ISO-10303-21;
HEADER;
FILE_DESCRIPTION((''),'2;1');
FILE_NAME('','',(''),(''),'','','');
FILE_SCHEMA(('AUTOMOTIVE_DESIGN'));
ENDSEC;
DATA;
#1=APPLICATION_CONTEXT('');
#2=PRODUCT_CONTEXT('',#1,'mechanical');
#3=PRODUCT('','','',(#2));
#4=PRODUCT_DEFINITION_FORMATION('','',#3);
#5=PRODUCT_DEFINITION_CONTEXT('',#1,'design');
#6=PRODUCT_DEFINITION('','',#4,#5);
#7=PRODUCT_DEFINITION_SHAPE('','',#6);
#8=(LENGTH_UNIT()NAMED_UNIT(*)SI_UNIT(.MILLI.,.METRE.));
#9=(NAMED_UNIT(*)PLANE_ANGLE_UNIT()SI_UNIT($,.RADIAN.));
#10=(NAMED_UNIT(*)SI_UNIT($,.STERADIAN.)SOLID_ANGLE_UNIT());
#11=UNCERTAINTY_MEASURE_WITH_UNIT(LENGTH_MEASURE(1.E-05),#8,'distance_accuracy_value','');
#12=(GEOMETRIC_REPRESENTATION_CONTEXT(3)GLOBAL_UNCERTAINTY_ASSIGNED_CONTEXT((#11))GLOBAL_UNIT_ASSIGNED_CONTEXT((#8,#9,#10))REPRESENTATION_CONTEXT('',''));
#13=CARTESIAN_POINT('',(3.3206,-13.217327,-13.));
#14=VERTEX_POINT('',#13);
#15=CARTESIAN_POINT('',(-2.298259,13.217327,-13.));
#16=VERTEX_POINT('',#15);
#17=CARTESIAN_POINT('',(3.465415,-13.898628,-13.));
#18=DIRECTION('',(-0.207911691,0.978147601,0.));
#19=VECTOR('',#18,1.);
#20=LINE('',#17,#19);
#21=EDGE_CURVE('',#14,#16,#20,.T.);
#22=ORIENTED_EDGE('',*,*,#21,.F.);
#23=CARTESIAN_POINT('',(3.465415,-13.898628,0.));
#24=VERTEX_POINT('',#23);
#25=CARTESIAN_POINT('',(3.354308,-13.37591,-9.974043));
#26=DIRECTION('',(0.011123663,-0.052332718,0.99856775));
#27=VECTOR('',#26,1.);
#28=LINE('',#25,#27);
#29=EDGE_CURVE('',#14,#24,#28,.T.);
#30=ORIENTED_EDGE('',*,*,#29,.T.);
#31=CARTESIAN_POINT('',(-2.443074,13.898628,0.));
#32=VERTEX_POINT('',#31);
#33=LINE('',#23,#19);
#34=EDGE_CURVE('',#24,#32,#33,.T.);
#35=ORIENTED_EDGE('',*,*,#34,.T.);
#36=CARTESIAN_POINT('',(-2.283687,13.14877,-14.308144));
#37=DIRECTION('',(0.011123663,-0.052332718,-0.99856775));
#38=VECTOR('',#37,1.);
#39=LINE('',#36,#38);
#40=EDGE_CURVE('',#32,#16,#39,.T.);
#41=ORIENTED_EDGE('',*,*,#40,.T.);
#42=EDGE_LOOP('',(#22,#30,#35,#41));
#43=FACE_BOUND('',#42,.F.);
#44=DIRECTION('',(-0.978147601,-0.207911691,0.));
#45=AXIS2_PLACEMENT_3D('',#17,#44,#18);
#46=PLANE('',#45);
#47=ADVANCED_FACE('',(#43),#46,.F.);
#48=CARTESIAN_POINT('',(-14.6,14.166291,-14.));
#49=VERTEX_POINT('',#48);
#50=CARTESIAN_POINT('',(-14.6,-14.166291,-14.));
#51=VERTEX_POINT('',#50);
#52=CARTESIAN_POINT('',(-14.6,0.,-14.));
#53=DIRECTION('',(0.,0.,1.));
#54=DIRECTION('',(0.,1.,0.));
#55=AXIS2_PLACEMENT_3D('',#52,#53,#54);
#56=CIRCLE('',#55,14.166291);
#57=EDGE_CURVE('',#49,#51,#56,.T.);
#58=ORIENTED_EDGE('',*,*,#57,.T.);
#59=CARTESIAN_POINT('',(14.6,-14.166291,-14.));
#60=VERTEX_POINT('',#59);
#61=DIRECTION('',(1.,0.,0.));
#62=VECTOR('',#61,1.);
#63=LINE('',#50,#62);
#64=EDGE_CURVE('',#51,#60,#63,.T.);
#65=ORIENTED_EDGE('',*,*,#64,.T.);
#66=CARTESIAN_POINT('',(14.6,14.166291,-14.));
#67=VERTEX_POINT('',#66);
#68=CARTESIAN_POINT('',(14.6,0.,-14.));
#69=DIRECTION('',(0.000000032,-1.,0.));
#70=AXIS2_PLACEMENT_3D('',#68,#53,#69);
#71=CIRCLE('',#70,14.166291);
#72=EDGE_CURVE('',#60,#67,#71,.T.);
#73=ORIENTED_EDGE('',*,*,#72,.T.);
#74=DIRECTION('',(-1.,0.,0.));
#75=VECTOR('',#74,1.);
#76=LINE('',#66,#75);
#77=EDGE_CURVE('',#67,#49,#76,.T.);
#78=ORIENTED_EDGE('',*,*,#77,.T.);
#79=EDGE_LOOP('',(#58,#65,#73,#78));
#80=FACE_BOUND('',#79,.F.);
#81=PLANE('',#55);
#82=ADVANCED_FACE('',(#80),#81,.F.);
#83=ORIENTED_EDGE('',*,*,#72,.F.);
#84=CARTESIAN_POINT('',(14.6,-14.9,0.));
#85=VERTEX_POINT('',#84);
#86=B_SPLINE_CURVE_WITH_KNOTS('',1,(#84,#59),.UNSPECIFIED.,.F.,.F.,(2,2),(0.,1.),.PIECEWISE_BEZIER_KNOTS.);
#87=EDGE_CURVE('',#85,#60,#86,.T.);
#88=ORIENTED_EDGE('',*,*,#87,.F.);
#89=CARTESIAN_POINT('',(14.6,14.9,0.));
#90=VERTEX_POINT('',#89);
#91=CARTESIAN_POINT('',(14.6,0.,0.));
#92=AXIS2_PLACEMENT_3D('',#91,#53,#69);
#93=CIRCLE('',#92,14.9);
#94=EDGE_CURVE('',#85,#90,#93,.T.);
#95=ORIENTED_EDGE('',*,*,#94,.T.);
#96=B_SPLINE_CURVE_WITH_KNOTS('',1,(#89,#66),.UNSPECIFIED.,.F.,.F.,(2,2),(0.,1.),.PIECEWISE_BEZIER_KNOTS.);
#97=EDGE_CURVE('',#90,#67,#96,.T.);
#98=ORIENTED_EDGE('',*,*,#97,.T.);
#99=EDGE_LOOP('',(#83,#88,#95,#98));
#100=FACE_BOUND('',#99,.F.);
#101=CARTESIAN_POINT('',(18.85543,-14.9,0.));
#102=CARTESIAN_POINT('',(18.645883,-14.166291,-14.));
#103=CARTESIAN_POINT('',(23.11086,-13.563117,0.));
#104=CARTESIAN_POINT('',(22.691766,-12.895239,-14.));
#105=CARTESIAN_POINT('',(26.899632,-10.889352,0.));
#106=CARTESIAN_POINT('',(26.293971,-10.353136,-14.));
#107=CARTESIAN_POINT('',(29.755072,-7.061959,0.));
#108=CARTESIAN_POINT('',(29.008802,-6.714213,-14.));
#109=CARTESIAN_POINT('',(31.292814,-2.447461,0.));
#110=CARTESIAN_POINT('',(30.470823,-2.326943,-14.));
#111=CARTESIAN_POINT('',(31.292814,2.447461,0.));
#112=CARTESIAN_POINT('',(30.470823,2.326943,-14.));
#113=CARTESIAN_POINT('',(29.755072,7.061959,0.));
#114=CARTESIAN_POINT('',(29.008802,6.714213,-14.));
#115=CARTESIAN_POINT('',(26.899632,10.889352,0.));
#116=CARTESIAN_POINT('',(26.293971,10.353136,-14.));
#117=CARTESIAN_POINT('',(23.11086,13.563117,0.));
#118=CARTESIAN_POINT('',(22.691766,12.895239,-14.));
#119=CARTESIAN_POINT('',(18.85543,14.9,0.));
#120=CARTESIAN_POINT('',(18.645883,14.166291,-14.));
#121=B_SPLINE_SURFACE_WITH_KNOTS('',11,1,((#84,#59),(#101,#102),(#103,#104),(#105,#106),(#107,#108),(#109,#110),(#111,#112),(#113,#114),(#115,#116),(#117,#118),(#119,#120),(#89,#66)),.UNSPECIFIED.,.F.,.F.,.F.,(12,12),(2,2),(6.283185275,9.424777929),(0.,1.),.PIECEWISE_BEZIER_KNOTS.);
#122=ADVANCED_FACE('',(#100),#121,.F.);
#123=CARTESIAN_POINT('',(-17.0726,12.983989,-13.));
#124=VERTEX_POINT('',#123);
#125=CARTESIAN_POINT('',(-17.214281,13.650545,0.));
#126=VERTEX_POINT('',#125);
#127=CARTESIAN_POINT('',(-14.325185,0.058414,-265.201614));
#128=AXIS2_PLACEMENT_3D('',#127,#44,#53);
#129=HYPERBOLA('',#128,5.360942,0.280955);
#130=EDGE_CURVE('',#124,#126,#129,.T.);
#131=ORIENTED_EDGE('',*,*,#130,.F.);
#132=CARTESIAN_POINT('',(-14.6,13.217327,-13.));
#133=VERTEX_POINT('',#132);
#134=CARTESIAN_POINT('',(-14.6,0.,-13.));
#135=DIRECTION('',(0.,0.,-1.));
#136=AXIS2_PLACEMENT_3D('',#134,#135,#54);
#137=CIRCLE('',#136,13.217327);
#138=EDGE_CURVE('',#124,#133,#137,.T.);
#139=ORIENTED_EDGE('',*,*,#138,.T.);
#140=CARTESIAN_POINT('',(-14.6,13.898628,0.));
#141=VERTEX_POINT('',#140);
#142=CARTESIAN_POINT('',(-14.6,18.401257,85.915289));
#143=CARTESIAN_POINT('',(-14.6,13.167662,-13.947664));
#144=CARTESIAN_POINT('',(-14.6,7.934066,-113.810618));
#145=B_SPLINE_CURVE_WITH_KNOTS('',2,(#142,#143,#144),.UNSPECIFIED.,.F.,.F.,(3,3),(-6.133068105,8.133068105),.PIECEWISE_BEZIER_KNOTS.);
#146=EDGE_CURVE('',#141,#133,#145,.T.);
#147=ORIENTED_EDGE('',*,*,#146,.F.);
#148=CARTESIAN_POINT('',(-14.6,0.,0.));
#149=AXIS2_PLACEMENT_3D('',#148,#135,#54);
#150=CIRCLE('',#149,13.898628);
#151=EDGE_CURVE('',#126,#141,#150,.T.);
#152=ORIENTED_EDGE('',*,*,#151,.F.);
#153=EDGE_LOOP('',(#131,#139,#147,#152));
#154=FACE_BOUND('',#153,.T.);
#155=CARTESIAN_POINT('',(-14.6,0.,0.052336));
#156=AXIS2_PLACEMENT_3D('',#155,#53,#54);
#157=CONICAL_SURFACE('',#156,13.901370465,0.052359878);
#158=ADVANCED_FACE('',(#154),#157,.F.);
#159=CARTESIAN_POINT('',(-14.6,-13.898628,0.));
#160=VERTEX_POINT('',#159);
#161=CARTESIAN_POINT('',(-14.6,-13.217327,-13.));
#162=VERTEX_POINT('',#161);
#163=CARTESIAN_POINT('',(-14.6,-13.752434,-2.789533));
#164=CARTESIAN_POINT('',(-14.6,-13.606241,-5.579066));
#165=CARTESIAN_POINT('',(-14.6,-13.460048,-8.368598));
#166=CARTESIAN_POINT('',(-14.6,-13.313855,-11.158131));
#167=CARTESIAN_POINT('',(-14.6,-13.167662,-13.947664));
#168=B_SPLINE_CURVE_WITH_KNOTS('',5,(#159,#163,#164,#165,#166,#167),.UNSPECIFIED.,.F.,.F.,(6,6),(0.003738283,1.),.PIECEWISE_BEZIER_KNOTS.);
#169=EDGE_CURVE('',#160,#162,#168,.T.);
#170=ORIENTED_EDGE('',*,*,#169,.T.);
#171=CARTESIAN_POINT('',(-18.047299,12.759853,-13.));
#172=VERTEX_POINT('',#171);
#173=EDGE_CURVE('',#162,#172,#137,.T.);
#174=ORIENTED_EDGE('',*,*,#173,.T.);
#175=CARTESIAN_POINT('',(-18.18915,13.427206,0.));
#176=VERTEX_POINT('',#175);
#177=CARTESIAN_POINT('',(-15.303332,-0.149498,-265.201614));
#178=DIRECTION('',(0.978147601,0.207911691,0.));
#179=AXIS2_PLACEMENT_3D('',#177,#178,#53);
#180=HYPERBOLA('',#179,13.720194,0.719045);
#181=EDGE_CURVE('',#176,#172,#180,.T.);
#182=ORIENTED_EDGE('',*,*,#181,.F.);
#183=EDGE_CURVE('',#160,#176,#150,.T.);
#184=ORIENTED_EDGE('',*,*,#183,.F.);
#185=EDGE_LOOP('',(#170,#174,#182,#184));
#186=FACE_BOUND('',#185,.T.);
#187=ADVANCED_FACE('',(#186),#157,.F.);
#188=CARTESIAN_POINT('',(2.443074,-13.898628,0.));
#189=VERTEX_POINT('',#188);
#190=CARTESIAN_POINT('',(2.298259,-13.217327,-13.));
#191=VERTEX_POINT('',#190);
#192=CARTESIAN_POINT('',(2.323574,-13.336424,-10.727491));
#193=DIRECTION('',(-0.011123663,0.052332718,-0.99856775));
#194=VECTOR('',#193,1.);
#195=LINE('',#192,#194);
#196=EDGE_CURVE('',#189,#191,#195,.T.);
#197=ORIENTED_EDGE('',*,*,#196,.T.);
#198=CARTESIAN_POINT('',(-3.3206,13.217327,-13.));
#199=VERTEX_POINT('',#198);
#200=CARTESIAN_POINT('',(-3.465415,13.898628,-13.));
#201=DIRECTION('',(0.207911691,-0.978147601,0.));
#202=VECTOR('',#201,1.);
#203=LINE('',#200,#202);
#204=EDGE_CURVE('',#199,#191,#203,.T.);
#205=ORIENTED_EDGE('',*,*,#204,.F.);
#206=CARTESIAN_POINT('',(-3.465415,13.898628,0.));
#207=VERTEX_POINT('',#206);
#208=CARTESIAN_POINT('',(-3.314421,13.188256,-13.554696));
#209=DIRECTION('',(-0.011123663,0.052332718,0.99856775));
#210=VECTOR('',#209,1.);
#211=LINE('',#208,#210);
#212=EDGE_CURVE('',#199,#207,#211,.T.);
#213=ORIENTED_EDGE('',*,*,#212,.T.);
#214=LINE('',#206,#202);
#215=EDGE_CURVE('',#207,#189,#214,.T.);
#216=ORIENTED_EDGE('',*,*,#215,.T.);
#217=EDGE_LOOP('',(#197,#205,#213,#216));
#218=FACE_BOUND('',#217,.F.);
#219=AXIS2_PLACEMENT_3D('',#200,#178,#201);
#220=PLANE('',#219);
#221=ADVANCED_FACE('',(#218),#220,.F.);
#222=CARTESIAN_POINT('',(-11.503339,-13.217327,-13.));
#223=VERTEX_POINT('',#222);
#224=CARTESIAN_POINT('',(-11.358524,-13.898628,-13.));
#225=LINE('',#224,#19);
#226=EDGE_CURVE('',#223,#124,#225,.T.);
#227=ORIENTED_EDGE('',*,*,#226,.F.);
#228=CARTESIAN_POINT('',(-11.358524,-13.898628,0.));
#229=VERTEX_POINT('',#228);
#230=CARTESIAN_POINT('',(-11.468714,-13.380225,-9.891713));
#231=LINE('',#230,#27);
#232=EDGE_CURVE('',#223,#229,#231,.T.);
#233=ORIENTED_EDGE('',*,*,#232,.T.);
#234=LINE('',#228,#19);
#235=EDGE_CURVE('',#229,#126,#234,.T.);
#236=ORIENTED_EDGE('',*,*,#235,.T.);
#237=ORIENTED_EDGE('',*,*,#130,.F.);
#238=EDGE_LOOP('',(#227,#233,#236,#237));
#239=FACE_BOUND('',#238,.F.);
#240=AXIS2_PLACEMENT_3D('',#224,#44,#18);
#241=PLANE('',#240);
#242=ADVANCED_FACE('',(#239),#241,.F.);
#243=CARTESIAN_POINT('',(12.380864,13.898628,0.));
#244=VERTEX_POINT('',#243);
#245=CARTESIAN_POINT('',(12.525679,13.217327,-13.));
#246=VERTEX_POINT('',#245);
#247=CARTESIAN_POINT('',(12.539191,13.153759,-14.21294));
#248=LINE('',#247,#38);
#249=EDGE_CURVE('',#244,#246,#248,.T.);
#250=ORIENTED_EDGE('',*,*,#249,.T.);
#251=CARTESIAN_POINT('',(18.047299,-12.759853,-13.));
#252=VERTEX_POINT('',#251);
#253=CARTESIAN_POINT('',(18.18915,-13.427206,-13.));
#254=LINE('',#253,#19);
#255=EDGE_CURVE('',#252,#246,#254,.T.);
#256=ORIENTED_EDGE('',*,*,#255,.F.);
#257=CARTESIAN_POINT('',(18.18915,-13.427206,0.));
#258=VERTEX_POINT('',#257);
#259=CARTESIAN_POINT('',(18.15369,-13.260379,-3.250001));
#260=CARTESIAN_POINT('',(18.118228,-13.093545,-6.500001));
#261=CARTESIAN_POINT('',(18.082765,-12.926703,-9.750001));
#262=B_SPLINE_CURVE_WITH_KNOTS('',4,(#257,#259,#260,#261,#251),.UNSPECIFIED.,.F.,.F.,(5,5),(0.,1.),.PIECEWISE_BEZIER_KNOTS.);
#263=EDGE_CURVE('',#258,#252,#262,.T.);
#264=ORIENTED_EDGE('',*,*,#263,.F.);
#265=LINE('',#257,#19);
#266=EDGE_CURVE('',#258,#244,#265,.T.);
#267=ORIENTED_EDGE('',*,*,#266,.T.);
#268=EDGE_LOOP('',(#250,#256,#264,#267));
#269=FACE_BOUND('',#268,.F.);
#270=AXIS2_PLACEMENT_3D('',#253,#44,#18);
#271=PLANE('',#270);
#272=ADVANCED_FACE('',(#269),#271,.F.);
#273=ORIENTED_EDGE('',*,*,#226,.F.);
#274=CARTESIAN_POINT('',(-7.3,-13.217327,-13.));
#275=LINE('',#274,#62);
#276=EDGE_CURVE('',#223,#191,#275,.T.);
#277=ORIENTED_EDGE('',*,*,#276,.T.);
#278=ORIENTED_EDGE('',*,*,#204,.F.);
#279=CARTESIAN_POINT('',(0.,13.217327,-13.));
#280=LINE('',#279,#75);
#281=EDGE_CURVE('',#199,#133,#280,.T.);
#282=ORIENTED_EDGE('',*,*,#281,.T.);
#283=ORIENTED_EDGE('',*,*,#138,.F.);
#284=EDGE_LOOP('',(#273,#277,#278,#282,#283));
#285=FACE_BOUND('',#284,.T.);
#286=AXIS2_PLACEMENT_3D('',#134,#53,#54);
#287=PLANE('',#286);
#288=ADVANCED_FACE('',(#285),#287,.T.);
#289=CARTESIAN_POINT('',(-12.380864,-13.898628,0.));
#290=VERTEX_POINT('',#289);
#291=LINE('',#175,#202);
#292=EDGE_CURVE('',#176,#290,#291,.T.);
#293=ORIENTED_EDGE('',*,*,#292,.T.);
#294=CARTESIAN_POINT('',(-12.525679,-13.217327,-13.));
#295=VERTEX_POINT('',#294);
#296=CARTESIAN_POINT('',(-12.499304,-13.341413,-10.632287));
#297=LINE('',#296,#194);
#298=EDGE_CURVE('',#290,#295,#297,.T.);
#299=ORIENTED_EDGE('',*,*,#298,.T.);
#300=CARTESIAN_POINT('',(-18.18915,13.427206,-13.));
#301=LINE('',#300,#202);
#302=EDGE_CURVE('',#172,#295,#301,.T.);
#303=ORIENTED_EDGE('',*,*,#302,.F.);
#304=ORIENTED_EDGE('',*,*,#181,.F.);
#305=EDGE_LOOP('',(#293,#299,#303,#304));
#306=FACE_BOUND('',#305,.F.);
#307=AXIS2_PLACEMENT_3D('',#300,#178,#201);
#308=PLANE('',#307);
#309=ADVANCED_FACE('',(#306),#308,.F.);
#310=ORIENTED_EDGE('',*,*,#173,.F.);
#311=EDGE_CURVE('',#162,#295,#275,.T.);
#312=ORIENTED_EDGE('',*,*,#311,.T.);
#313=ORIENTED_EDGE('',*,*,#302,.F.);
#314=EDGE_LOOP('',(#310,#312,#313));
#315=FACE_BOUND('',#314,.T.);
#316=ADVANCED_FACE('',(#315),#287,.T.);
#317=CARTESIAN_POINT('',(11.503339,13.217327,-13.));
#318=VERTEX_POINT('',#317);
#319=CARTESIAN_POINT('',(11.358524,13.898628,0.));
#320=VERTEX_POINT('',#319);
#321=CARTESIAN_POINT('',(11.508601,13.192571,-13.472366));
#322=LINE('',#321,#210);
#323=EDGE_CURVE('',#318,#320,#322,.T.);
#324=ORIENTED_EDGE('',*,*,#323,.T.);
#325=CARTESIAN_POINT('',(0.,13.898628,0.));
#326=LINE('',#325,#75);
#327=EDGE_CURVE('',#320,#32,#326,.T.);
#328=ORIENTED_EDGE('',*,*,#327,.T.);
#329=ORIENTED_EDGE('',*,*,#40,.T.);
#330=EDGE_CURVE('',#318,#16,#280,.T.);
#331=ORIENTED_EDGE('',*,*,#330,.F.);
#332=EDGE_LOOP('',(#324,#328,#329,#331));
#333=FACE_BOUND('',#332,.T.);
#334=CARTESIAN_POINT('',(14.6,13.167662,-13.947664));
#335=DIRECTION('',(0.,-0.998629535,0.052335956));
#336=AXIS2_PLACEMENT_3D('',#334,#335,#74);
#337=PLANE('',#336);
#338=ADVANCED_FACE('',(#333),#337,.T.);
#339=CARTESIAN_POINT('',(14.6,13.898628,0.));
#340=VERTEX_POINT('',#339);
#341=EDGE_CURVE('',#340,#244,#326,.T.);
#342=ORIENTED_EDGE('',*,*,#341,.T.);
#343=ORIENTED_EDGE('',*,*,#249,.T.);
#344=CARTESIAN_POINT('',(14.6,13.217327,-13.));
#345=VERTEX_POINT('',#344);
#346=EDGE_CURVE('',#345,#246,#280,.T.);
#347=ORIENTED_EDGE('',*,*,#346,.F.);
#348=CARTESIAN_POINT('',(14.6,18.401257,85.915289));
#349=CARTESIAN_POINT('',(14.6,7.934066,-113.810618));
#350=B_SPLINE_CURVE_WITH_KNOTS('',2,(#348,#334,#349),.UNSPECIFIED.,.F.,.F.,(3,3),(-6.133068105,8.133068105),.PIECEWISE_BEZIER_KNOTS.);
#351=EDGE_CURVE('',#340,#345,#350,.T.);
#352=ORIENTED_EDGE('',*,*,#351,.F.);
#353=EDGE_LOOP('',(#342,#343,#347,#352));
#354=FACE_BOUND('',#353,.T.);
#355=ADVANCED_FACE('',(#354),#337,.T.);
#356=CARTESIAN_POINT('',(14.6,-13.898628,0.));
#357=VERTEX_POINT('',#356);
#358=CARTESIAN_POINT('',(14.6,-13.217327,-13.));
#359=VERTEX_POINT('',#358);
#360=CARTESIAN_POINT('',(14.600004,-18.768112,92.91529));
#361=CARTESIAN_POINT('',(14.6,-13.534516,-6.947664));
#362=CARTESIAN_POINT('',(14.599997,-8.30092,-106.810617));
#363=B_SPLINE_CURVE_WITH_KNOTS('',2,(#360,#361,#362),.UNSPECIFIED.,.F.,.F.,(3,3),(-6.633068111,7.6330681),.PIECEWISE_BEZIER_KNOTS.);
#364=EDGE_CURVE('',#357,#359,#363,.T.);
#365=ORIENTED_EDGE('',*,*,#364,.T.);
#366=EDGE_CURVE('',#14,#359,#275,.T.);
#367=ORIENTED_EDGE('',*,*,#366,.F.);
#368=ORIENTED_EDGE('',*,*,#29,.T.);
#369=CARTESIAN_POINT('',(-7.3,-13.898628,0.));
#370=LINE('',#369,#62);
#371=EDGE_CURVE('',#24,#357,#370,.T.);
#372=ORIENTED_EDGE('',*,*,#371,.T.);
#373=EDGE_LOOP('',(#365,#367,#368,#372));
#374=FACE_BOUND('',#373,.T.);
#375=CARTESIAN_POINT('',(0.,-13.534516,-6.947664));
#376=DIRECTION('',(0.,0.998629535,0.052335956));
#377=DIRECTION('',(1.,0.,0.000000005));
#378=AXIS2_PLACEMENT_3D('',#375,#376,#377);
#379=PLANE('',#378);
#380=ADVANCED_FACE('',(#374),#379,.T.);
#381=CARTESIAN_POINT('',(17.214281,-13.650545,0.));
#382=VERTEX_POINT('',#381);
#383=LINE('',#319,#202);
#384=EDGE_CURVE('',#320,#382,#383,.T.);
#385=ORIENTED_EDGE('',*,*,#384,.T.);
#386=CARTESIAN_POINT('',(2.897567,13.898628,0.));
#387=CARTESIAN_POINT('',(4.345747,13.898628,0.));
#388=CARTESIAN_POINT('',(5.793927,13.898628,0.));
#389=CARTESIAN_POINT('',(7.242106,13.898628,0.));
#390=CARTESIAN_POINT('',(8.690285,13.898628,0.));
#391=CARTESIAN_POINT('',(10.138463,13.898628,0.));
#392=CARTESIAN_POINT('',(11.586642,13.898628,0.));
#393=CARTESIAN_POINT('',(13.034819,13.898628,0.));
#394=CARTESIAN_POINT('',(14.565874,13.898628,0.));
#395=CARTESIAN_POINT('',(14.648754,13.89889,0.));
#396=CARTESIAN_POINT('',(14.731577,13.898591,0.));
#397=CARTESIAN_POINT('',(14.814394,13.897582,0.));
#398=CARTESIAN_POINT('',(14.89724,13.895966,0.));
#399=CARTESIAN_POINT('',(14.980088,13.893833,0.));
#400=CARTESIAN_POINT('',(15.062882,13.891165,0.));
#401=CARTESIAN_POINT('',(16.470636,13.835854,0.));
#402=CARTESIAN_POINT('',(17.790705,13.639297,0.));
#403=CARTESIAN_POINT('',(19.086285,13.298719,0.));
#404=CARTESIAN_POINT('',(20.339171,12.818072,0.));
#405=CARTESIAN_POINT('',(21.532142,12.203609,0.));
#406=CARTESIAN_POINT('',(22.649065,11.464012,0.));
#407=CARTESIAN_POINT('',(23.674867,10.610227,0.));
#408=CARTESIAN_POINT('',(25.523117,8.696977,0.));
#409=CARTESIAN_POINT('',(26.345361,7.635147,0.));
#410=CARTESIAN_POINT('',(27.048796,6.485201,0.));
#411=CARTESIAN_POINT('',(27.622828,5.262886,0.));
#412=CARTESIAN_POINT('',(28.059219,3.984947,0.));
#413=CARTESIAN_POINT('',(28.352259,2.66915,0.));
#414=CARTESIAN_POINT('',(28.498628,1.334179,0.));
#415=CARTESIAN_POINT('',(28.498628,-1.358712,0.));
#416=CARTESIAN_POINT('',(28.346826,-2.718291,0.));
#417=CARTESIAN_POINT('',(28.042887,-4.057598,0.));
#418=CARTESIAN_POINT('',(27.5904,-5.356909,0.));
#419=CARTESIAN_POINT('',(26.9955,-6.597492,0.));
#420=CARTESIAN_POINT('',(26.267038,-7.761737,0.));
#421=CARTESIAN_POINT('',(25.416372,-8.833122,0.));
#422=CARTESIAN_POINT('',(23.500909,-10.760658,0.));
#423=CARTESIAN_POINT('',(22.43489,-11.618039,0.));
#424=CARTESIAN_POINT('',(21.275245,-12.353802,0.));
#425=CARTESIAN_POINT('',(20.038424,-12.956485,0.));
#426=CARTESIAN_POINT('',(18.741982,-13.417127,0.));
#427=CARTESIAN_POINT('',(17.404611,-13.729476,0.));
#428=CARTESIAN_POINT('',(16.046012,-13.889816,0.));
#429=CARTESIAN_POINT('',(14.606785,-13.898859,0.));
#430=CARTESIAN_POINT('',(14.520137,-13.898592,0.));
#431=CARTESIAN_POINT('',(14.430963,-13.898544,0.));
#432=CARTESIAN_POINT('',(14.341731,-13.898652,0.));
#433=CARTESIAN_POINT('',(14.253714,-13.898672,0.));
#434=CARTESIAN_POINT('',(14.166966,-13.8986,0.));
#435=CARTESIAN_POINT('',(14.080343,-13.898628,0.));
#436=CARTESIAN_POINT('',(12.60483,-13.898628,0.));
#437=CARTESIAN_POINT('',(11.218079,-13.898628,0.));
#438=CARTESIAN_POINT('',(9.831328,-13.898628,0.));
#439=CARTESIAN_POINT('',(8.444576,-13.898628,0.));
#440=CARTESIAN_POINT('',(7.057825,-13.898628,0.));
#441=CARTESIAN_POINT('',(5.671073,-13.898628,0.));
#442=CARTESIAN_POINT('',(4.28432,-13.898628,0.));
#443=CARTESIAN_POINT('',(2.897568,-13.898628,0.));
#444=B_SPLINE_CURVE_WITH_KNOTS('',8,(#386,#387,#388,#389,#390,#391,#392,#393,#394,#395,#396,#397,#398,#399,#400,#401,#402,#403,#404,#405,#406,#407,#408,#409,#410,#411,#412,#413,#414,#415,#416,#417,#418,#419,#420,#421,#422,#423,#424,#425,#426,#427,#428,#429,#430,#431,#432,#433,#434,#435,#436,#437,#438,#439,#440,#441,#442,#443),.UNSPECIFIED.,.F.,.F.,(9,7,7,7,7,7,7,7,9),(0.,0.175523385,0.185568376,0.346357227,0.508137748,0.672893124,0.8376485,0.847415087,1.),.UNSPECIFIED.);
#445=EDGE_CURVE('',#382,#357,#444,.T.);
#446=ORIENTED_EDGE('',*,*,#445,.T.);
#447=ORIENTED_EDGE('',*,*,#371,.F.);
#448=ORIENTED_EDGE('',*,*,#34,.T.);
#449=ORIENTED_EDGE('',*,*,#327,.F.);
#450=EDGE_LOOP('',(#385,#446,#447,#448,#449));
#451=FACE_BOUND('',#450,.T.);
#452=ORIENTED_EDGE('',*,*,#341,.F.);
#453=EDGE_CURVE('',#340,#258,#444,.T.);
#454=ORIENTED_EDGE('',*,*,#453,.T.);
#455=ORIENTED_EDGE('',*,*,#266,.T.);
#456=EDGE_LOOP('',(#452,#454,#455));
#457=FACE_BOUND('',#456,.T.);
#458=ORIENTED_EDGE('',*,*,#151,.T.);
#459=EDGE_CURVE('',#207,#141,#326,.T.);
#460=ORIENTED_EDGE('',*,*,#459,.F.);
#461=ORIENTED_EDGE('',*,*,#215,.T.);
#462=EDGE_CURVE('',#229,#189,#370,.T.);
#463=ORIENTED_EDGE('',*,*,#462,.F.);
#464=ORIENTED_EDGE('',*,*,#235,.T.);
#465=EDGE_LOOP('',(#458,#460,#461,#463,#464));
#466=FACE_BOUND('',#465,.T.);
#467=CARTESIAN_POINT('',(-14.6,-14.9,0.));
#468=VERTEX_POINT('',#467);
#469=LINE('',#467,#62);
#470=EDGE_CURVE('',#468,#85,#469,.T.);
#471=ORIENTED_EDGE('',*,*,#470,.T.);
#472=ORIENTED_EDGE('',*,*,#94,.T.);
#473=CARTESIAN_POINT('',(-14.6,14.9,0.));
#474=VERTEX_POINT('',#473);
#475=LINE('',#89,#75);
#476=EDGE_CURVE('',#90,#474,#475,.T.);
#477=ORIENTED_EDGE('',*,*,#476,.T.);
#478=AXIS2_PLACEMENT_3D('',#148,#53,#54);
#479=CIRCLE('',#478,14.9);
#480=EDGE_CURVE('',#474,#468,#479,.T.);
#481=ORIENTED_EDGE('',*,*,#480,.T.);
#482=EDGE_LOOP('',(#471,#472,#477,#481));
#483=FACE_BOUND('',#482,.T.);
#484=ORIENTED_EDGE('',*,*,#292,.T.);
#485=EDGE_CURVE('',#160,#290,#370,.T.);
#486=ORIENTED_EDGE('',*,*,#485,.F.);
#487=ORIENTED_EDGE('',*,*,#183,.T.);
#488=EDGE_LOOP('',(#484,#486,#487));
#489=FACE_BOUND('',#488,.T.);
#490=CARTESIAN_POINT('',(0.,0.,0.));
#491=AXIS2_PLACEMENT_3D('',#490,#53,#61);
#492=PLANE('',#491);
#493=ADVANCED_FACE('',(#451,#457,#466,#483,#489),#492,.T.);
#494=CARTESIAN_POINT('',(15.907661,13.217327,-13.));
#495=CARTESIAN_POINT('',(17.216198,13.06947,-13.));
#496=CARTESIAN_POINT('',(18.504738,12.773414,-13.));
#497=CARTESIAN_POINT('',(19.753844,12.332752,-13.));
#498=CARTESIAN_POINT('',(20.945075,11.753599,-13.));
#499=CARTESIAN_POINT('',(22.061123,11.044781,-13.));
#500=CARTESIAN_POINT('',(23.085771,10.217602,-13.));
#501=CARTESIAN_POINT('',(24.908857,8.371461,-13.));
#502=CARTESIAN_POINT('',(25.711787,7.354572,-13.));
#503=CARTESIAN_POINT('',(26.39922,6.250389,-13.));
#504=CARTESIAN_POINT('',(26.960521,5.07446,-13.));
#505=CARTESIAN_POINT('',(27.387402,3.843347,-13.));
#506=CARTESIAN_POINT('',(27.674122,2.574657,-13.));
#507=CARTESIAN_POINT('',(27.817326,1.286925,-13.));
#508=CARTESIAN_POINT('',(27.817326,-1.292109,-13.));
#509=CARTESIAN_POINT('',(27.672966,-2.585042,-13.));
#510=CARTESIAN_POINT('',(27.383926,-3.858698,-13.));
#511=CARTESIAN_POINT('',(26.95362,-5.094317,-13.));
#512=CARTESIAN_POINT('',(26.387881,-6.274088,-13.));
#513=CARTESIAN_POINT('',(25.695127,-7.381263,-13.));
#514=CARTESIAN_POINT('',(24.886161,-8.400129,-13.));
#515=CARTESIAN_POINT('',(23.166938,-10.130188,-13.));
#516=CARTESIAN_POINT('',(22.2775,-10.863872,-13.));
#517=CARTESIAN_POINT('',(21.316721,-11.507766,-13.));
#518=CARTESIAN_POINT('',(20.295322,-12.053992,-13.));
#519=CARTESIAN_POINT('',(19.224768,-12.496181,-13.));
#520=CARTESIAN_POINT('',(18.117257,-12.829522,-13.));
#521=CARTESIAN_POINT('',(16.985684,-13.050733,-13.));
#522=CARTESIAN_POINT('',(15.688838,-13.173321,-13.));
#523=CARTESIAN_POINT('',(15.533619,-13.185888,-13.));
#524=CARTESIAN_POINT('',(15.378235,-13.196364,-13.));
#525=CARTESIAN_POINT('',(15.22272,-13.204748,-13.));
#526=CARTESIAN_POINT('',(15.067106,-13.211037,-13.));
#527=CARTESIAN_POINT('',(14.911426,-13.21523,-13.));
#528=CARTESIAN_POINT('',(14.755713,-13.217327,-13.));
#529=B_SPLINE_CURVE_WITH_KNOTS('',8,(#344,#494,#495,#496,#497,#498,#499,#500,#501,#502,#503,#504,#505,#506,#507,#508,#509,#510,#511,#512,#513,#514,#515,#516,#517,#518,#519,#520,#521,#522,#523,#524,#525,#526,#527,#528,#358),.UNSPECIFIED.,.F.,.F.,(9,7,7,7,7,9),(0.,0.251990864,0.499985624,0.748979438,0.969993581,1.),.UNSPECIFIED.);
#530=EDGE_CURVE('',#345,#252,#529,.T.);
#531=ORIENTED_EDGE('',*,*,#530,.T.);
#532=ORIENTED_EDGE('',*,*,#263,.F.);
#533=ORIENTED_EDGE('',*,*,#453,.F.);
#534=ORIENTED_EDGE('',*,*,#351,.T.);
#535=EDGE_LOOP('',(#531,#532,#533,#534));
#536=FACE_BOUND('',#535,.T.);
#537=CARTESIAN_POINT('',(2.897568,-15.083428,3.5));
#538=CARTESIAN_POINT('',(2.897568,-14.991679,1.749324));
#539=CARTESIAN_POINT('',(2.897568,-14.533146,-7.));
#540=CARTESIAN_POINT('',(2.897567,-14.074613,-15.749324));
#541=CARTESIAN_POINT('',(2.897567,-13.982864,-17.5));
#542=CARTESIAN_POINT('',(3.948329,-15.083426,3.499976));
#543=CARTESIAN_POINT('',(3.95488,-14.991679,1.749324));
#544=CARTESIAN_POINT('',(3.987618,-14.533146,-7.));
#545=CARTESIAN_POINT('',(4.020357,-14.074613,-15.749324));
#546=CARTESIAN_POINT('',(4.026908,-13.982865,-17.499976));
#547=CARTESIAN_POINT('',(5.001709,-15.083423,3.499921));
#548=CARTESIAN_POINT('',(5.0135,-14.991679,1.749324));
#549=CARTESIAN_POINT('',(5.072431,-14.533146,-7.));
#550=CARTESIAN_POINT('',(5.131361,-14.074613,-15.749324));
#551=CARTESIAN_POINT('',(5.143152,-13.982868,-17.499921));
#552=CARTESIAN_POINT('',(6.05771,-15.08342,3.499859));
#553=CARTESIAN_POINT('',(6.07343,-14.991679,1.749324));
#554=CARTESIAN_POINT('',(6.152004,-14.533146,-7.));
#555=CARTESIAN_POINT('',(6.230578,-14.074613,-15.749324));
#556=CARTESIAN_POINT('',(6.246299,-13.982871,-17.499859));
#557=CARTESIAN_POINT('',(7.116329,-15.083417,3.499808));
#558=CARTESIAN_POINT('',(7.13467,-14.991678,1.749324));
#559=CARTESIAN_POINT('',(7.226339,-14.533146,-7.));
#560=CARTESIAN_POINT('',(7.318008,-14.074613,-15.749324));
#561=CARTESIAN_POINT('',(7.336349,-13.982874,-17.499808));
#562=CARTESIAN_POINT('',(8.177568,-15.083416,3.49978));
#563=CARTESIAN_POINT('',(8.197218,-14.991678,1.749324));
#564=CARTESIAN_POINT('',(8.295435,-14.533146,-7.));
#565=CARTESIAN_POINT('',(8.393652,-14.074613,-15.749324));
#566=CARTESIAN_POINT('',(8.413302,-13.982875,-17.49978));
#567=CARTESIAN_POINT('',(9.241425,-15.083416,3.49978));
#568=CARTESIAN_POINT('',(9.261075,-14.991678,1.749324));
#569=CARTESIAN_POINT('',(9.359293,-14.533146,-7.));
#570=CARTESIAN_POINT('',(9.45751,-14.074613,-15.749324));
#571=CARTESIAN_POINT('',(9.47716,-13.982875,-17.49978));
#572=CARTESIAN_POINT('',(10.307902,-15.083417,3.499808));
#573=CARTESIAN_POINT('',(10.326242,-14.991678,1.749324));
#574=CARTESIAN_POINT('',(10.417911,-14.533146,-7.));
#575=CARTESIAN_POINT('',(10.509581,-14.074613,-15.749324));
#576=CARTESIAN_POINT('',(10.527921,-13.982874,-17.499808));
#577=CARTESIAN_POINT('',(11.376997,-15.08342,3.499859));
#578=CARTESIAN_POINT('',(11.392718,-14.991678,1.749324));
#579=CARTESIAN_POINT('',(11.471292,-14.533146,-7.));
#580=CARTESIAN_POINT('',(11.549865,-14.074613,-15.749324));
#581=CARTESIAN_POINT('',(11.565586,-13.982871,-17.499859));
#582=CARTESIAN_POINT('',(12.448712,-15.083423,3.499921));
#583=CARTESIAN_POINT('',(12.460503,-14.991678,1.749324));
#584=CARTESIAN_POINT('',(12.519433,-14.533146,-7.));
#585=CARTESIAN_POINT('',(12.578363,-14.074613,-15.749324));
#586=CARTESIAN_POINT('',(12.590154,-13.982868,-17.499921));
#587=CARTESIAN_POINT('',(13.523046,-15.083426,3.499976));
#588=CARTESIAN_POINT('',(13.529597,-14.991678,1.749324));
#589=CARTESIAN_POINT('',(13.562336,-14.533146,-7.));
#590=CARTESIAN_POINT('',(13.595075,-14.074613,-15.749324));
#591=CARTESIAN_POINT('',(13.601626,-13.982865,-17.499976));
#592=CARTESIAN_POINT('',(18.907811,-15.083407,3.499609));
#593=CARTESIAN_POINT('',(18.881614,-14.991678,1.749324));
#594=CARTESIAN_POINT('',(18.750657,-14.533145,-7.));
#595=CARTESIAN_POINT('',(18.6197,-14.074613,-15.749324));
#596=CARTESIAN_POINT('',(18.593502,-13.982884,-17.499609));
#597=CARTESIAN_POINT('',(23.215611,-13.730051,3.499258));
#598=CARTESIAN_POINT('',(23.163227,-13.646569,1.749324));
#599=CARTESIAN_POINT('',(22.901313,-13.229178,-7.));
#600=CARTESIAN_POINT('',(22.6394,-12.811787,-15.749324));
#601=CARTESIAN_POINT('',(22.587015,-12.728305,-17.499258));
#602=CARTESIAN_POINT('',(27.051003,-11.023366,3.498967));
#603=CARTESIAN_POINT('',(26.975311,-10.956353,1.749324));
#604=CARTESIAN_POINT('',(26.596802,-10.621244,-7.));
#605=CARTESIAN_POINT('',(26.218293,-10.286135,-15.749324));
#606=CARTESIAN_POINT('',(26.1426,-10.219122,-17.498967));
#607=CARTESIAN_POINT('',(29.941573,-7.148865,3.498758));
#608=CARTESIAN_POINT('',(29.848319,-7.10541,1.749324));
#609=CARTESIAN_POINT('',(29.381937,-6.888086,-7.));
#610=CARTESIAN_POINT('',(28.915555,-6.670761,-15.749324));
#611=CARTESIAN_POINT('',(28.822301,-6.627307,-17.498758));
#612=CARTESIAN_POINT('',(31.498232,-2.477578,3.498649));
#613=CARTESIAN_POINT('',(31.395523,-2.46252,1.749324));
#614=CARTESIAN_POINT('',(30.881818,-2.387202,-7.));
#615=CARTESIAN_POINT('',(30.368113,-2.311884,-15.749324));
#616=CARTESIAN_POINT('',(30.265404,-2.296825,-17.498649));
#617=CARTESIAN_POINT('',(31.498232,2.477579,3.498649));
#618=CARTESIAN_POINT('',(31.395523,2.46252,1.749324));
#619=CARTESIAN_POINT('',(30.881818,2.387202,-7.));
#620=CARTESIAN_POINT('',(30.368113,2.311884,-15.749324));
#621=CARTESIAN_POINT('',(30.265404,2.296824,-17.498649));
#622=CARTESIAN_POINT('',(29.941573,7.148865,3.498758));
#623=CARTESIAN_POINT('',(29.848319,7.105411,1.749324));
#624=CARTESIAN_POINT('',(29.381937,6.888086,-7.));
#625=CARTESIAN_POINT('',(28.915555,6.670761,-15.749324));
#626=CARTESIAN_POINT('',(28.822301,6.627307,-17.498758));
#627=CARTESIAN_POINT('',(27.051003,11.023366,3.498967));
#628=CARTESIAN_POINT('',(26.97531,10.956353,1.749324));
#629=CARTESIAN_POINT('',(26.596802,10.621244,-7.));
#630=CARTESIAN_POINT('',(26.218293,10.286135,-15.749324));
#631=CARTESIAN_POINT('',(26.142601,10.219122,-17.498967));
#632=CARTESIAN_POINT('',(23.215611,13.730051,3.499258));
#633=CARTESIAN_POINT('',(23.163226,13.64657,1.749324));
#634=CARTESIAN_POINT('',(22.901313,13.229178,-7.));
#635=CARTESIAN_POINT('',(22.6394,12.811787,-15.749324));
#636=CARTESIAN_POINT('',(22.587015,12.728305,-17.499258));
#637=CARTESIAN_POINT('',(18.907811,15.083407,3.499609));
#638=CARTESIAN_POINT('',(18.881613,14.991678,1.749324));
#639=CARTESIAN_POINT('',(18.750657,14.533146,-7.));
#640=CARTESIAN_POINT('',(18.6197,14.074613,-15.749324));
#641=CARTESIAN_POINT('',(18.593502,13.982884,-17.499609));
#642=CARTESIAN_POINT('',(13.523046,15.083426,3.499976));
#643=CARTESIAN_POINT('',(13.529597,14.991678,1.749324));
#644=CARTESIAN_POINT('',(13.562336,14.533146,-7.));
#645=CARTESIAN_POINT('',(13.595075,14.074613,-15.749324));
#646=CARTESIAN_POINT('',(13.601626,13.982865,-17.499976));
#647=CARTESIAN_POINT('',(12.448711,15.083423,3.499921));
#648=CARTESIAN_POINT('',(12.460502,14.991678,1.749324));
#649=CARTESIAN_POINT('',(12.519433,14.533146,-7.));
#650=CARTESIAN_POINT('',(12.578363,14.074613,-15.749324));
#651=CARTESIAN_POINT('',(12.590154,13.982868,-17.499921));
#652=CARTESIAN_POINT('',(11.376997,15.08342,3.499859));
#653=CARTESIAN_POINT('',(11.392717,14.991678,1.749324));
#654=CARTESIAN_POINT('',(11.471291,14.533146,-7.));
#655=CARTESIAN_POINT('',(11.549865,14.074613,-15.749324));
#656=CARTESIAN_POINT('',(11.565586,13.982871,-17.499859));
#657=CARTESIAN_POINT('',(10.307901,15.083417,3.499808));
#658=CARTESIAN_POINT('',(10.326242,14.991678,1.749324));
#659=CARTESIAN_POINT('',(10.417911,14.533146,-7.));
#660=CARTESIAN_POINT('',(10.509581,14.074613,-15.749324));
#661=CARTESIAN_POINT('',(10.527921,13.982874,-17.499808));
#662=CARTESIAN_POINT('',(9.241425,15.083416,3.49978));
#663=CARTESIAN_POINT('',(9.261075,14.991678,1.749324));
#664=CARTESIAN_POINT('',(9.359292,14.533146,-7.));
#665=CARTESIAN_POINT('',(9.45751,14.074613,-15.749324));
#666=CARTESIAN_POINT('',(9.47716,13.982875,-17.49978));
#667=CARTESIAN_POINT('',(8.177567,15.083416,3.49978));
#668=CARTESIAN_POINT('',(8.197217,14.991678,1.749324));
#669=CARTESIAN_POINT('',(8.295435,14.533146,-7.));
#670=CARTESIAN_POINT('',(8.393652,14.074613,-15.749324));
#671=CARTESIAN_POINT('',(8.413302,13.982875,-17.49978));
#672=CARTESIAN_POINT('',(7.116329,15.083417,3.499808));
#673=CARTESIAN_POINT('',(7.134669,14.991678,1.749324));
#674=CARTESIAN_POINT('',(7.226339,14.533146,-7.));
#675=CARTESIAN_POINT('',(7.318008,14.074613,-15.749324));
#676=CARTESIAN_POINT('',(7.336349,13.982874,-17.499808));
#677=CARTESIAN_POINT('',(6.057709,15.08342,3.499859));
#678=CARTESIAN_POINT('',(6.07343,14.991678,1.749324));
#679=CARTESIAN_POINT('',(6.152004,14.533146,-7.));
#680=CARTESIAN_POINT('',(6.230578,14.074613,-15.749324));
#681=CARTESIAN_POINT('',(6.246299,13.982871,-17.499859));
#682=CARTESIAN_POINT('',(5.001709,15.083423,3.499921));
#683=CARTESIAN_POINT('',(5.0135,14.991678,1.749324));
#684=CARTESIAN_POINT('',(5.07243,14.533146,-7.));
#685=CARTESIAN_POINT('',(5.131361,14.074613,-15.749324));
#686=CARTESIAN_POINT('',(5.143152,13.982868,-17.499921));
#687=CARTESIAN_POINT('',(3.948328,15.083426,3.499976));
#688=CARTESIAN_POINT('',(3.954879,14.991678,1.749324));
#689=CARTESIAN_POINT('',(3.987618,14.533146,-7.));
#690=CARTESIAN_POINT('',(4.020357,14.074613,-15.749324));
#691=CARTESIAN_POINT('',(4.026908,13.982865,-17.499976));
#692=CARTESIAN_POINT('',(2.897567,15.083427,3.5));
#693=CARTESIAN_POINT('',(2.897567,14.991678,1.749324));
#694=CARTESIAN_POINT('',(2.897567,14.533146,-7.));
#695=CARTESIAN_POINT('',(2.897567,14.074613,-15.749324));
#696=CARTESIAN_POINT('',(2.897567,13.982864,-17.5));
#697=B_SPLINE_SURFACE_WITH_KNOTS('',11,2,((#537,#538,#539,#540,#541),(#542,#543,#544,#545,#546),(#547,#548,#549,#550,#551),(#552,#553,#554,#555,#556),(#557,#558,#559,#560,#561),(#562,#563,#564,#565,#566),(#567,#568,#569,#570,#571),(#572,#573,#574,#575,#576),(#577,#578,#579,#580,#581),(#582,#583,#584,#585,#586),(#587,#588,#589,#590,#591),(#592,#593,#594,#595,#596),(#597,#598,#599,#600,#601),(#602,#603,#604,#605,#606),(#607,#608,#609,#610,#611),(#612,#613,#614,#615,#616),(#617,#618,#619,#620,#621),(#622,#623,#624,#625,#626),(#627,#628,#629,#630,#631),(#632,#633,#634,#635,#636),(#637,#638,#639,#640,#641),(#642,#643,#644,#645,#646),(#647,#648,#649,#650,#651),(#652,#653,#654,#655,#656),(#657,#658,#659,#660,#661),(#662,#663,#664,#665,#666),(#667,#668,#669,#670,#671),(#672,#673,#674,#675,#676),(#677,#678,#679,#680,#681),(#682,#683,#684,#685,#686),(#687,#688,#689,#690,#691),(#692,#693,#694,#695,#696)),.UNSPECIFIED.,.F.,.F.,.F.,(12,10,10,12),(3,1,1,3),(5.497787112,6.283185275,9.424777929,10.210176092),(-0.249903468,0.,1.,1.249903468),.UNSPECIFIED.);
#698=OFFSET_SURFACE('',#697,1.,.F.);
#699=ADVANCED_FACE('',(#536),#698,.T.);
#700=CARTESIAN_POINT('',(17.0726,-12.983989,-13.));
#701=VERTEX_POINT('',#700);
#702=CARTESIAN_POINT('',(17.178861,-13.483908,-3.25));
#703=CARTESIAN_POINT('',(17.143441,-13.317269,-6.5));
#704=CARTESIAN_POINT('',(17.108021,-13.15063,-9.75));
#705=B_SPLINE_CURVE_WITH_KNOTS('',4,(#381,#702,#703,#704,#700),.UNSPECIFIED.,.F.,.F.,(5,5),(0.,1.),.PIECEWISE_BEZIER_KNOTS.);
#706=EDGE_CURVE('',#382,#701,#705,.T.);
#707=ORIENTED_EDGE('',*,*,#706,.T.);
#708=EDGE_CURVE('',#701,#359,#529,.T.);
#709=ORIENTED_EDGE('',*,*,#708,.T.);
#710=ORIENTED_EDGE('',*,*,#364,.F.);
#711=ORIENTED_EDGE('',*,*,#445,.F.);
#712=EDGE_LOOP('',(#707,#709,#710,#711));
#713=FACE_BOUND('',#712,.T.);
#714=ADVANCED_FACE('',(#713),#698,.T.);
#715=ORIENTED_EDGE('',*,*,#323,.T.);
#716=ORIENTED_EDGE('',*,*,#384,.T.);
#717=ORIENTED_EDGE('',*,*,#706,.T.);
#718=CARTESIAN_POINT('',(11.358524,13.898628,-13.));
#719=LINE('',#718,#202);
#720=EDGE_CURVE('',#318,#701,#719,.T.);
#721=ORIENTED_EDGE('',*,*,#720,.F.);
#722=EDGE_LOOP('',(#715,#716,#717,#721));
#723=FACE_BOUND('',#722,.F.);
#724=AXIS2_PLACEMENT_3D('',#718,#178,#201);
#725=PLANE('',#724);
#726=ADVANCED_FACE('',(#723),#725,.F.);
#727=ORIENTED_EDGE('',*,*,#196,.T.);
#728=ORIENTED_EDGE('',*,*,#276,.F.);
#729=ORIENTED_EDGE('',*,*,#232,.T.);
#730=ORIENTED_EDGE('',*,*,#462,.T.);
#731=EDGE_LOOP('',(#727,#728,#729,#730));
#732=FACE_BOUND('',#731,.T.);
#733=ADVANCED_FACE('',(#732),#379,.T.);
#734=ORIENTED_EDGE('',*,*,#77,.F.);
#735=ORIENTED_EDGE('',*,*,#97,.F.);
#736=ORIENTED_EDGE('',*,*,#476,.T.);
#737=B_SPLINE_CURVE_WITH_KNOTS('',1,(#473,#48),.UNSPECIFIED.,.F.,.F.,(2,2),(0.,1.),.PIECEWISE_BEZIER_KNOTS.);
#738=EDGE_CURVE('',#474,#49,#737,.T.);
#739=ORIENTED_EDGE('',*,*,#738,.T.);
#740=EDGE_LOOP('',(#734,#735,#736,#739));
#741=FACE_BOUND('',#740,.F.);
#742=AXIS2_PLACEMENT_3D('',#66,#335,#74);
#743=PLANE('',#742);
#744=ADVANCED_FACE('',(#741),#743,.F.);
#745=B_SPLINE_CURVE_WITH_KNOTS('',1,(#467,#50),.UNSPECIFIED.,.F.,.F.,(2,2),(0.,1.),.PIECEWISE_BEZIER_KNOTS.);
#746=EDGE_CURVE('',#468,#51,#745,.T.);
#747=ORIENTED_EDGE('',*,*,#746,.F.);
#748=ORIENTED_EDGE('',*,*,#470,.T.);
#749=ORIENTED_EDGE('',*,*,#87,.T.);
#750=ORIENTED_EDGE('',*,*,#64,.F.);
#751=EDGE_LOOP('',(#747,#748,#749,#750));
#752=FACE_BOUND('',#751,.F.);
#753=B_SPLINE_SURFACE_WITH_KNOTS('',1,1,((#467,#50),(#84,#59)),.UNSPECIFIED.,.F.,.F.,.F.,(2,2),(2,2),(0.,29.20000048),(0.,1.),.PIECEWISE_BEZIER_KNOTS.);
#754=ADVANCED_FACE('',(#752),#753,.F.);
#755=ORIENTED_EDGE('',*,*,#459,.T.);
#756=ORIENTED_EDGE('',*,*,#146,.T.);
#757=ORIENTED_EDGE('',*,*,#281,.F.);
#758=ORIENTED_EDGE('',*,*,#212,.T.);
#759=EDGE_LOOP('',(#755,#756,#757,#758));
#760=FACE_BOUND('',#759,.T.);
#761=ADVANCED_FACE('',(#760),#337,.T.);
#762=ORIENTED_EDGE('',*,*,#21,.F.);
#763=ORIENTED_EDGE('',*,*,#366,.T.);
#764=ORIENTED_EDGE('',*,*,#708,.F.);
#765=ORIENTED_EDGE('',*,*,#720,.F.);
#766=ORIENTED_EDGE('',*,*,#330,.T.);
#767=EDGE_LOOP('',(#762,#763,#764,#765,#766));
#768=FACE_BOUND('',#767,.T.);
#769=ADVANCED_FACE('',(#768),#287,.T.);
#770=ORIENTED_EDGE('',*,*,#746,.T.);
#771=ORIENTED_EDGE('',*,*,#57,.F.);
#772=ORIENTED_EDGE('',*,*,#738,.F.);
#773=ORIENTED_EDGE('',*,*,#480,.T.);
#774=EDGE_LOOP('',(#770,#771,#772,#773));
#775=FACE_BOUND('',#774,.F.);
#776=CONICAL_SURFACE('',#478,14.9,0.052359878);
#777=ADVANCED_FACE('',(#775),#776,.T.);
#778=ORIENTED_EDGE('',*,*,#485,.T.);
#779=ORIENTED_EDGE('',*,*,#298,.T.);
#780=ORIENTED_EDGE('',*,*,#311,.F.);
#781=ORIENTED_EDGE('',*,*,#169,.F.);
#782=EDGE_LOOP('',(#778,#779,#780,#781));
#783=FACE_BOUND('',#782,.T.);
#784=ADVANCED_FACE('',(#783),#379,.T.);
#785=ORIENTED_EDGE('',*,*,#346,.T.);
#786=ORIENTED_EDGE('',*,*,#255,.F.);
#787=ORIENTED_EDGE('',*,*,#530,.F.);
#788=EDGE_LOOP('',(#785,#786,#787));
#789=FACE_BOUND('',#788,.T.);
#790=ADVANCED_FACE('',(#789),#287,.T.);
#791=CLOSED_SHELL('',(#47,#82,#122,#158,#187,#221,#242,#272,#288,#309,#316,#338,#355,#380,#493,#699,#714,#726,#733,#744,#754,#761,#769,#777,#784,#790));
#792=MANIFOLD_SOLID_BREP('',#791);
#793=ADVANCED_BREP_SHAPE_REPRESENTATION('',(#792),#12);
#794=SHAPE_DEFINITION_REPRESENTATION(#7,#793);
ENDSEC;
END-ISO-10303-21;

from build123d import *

# Parameters (mm, degrees)
F1_DEPTH = 14
F1_TAPER = 3
F2_T     = -1
F4_DEPTH = 13


with BuildPart() as f1:
    # F0 (on Top) → F1 (new body)
    with BuildSketch(Plane.XY):
        with BuildLine():
            Line((14.5999998801, 14.9), (-14.6000001199, 14.9))
            ThreePointArc((-14.6000001199, 14.9), (-29.5000001199, 0), (-14.6000001199, -14.9))
            Line((-14.6000001199, -14.9), (14.6000003597, -14.9))
            ThreePointArc((14.6000003597, -14.9), (29.4999998801, 2.398e-07), (14.5999998801, 14.9))
        make_face()
    extrude(amount=-F1_DEPTH, taper=F1_TAPER)

    # F2
    f2_openings = [f1.faces().sort_by_distance(p)[0] for p in [
        (0, 0, 0),
    ]]
    offset(amount=F2_T, openings=f2_openings)

    # F3 (on face) → F4 (join, through all)
    with BuildSketch(Plane.XY.offset(-13)):
        Polygon((-2.4430742086, 13.898627654), (-3.4654148035, 13.898627654), (2.4430742086, -13.898627654), (3.4654148035, -13.898627654), align=None)
        with BuildLine():
            ThreePointArc((-17.2142812839, 13.6505452148), (-17.7037250021, 13.5476471212), (-18.1891496276, 13.4272058328))
            Line((-18.1891496276, 13.4272058328), (-12.3808644169, -13.898627654))
            Line((-12.3808644169, -13.898627654), (-11.358523822, -13.898627654))
            Line((-11.358523822, -13.898627654), (-17.2142812839, 13.6505452148))
        make_face()
        with BuildLine():
            Line((12.3808644169, 13.898627654), (11.358523822, 13.898627654))
            Line((11.358523822, 13.898627654), (17.2142812745, -13.6505451706))
            ThreePointArc((17.2142812745, -13.6505451706), (17.7037249911, -13.5476470688), (18.1891496147, -13.4272057721))
            Line((18.1891496147, -13.4272057721), (12.3808644169, 13.898627654))
        make_face()
    extrude(amount=F4_DEPTH)


solid = f1.part
